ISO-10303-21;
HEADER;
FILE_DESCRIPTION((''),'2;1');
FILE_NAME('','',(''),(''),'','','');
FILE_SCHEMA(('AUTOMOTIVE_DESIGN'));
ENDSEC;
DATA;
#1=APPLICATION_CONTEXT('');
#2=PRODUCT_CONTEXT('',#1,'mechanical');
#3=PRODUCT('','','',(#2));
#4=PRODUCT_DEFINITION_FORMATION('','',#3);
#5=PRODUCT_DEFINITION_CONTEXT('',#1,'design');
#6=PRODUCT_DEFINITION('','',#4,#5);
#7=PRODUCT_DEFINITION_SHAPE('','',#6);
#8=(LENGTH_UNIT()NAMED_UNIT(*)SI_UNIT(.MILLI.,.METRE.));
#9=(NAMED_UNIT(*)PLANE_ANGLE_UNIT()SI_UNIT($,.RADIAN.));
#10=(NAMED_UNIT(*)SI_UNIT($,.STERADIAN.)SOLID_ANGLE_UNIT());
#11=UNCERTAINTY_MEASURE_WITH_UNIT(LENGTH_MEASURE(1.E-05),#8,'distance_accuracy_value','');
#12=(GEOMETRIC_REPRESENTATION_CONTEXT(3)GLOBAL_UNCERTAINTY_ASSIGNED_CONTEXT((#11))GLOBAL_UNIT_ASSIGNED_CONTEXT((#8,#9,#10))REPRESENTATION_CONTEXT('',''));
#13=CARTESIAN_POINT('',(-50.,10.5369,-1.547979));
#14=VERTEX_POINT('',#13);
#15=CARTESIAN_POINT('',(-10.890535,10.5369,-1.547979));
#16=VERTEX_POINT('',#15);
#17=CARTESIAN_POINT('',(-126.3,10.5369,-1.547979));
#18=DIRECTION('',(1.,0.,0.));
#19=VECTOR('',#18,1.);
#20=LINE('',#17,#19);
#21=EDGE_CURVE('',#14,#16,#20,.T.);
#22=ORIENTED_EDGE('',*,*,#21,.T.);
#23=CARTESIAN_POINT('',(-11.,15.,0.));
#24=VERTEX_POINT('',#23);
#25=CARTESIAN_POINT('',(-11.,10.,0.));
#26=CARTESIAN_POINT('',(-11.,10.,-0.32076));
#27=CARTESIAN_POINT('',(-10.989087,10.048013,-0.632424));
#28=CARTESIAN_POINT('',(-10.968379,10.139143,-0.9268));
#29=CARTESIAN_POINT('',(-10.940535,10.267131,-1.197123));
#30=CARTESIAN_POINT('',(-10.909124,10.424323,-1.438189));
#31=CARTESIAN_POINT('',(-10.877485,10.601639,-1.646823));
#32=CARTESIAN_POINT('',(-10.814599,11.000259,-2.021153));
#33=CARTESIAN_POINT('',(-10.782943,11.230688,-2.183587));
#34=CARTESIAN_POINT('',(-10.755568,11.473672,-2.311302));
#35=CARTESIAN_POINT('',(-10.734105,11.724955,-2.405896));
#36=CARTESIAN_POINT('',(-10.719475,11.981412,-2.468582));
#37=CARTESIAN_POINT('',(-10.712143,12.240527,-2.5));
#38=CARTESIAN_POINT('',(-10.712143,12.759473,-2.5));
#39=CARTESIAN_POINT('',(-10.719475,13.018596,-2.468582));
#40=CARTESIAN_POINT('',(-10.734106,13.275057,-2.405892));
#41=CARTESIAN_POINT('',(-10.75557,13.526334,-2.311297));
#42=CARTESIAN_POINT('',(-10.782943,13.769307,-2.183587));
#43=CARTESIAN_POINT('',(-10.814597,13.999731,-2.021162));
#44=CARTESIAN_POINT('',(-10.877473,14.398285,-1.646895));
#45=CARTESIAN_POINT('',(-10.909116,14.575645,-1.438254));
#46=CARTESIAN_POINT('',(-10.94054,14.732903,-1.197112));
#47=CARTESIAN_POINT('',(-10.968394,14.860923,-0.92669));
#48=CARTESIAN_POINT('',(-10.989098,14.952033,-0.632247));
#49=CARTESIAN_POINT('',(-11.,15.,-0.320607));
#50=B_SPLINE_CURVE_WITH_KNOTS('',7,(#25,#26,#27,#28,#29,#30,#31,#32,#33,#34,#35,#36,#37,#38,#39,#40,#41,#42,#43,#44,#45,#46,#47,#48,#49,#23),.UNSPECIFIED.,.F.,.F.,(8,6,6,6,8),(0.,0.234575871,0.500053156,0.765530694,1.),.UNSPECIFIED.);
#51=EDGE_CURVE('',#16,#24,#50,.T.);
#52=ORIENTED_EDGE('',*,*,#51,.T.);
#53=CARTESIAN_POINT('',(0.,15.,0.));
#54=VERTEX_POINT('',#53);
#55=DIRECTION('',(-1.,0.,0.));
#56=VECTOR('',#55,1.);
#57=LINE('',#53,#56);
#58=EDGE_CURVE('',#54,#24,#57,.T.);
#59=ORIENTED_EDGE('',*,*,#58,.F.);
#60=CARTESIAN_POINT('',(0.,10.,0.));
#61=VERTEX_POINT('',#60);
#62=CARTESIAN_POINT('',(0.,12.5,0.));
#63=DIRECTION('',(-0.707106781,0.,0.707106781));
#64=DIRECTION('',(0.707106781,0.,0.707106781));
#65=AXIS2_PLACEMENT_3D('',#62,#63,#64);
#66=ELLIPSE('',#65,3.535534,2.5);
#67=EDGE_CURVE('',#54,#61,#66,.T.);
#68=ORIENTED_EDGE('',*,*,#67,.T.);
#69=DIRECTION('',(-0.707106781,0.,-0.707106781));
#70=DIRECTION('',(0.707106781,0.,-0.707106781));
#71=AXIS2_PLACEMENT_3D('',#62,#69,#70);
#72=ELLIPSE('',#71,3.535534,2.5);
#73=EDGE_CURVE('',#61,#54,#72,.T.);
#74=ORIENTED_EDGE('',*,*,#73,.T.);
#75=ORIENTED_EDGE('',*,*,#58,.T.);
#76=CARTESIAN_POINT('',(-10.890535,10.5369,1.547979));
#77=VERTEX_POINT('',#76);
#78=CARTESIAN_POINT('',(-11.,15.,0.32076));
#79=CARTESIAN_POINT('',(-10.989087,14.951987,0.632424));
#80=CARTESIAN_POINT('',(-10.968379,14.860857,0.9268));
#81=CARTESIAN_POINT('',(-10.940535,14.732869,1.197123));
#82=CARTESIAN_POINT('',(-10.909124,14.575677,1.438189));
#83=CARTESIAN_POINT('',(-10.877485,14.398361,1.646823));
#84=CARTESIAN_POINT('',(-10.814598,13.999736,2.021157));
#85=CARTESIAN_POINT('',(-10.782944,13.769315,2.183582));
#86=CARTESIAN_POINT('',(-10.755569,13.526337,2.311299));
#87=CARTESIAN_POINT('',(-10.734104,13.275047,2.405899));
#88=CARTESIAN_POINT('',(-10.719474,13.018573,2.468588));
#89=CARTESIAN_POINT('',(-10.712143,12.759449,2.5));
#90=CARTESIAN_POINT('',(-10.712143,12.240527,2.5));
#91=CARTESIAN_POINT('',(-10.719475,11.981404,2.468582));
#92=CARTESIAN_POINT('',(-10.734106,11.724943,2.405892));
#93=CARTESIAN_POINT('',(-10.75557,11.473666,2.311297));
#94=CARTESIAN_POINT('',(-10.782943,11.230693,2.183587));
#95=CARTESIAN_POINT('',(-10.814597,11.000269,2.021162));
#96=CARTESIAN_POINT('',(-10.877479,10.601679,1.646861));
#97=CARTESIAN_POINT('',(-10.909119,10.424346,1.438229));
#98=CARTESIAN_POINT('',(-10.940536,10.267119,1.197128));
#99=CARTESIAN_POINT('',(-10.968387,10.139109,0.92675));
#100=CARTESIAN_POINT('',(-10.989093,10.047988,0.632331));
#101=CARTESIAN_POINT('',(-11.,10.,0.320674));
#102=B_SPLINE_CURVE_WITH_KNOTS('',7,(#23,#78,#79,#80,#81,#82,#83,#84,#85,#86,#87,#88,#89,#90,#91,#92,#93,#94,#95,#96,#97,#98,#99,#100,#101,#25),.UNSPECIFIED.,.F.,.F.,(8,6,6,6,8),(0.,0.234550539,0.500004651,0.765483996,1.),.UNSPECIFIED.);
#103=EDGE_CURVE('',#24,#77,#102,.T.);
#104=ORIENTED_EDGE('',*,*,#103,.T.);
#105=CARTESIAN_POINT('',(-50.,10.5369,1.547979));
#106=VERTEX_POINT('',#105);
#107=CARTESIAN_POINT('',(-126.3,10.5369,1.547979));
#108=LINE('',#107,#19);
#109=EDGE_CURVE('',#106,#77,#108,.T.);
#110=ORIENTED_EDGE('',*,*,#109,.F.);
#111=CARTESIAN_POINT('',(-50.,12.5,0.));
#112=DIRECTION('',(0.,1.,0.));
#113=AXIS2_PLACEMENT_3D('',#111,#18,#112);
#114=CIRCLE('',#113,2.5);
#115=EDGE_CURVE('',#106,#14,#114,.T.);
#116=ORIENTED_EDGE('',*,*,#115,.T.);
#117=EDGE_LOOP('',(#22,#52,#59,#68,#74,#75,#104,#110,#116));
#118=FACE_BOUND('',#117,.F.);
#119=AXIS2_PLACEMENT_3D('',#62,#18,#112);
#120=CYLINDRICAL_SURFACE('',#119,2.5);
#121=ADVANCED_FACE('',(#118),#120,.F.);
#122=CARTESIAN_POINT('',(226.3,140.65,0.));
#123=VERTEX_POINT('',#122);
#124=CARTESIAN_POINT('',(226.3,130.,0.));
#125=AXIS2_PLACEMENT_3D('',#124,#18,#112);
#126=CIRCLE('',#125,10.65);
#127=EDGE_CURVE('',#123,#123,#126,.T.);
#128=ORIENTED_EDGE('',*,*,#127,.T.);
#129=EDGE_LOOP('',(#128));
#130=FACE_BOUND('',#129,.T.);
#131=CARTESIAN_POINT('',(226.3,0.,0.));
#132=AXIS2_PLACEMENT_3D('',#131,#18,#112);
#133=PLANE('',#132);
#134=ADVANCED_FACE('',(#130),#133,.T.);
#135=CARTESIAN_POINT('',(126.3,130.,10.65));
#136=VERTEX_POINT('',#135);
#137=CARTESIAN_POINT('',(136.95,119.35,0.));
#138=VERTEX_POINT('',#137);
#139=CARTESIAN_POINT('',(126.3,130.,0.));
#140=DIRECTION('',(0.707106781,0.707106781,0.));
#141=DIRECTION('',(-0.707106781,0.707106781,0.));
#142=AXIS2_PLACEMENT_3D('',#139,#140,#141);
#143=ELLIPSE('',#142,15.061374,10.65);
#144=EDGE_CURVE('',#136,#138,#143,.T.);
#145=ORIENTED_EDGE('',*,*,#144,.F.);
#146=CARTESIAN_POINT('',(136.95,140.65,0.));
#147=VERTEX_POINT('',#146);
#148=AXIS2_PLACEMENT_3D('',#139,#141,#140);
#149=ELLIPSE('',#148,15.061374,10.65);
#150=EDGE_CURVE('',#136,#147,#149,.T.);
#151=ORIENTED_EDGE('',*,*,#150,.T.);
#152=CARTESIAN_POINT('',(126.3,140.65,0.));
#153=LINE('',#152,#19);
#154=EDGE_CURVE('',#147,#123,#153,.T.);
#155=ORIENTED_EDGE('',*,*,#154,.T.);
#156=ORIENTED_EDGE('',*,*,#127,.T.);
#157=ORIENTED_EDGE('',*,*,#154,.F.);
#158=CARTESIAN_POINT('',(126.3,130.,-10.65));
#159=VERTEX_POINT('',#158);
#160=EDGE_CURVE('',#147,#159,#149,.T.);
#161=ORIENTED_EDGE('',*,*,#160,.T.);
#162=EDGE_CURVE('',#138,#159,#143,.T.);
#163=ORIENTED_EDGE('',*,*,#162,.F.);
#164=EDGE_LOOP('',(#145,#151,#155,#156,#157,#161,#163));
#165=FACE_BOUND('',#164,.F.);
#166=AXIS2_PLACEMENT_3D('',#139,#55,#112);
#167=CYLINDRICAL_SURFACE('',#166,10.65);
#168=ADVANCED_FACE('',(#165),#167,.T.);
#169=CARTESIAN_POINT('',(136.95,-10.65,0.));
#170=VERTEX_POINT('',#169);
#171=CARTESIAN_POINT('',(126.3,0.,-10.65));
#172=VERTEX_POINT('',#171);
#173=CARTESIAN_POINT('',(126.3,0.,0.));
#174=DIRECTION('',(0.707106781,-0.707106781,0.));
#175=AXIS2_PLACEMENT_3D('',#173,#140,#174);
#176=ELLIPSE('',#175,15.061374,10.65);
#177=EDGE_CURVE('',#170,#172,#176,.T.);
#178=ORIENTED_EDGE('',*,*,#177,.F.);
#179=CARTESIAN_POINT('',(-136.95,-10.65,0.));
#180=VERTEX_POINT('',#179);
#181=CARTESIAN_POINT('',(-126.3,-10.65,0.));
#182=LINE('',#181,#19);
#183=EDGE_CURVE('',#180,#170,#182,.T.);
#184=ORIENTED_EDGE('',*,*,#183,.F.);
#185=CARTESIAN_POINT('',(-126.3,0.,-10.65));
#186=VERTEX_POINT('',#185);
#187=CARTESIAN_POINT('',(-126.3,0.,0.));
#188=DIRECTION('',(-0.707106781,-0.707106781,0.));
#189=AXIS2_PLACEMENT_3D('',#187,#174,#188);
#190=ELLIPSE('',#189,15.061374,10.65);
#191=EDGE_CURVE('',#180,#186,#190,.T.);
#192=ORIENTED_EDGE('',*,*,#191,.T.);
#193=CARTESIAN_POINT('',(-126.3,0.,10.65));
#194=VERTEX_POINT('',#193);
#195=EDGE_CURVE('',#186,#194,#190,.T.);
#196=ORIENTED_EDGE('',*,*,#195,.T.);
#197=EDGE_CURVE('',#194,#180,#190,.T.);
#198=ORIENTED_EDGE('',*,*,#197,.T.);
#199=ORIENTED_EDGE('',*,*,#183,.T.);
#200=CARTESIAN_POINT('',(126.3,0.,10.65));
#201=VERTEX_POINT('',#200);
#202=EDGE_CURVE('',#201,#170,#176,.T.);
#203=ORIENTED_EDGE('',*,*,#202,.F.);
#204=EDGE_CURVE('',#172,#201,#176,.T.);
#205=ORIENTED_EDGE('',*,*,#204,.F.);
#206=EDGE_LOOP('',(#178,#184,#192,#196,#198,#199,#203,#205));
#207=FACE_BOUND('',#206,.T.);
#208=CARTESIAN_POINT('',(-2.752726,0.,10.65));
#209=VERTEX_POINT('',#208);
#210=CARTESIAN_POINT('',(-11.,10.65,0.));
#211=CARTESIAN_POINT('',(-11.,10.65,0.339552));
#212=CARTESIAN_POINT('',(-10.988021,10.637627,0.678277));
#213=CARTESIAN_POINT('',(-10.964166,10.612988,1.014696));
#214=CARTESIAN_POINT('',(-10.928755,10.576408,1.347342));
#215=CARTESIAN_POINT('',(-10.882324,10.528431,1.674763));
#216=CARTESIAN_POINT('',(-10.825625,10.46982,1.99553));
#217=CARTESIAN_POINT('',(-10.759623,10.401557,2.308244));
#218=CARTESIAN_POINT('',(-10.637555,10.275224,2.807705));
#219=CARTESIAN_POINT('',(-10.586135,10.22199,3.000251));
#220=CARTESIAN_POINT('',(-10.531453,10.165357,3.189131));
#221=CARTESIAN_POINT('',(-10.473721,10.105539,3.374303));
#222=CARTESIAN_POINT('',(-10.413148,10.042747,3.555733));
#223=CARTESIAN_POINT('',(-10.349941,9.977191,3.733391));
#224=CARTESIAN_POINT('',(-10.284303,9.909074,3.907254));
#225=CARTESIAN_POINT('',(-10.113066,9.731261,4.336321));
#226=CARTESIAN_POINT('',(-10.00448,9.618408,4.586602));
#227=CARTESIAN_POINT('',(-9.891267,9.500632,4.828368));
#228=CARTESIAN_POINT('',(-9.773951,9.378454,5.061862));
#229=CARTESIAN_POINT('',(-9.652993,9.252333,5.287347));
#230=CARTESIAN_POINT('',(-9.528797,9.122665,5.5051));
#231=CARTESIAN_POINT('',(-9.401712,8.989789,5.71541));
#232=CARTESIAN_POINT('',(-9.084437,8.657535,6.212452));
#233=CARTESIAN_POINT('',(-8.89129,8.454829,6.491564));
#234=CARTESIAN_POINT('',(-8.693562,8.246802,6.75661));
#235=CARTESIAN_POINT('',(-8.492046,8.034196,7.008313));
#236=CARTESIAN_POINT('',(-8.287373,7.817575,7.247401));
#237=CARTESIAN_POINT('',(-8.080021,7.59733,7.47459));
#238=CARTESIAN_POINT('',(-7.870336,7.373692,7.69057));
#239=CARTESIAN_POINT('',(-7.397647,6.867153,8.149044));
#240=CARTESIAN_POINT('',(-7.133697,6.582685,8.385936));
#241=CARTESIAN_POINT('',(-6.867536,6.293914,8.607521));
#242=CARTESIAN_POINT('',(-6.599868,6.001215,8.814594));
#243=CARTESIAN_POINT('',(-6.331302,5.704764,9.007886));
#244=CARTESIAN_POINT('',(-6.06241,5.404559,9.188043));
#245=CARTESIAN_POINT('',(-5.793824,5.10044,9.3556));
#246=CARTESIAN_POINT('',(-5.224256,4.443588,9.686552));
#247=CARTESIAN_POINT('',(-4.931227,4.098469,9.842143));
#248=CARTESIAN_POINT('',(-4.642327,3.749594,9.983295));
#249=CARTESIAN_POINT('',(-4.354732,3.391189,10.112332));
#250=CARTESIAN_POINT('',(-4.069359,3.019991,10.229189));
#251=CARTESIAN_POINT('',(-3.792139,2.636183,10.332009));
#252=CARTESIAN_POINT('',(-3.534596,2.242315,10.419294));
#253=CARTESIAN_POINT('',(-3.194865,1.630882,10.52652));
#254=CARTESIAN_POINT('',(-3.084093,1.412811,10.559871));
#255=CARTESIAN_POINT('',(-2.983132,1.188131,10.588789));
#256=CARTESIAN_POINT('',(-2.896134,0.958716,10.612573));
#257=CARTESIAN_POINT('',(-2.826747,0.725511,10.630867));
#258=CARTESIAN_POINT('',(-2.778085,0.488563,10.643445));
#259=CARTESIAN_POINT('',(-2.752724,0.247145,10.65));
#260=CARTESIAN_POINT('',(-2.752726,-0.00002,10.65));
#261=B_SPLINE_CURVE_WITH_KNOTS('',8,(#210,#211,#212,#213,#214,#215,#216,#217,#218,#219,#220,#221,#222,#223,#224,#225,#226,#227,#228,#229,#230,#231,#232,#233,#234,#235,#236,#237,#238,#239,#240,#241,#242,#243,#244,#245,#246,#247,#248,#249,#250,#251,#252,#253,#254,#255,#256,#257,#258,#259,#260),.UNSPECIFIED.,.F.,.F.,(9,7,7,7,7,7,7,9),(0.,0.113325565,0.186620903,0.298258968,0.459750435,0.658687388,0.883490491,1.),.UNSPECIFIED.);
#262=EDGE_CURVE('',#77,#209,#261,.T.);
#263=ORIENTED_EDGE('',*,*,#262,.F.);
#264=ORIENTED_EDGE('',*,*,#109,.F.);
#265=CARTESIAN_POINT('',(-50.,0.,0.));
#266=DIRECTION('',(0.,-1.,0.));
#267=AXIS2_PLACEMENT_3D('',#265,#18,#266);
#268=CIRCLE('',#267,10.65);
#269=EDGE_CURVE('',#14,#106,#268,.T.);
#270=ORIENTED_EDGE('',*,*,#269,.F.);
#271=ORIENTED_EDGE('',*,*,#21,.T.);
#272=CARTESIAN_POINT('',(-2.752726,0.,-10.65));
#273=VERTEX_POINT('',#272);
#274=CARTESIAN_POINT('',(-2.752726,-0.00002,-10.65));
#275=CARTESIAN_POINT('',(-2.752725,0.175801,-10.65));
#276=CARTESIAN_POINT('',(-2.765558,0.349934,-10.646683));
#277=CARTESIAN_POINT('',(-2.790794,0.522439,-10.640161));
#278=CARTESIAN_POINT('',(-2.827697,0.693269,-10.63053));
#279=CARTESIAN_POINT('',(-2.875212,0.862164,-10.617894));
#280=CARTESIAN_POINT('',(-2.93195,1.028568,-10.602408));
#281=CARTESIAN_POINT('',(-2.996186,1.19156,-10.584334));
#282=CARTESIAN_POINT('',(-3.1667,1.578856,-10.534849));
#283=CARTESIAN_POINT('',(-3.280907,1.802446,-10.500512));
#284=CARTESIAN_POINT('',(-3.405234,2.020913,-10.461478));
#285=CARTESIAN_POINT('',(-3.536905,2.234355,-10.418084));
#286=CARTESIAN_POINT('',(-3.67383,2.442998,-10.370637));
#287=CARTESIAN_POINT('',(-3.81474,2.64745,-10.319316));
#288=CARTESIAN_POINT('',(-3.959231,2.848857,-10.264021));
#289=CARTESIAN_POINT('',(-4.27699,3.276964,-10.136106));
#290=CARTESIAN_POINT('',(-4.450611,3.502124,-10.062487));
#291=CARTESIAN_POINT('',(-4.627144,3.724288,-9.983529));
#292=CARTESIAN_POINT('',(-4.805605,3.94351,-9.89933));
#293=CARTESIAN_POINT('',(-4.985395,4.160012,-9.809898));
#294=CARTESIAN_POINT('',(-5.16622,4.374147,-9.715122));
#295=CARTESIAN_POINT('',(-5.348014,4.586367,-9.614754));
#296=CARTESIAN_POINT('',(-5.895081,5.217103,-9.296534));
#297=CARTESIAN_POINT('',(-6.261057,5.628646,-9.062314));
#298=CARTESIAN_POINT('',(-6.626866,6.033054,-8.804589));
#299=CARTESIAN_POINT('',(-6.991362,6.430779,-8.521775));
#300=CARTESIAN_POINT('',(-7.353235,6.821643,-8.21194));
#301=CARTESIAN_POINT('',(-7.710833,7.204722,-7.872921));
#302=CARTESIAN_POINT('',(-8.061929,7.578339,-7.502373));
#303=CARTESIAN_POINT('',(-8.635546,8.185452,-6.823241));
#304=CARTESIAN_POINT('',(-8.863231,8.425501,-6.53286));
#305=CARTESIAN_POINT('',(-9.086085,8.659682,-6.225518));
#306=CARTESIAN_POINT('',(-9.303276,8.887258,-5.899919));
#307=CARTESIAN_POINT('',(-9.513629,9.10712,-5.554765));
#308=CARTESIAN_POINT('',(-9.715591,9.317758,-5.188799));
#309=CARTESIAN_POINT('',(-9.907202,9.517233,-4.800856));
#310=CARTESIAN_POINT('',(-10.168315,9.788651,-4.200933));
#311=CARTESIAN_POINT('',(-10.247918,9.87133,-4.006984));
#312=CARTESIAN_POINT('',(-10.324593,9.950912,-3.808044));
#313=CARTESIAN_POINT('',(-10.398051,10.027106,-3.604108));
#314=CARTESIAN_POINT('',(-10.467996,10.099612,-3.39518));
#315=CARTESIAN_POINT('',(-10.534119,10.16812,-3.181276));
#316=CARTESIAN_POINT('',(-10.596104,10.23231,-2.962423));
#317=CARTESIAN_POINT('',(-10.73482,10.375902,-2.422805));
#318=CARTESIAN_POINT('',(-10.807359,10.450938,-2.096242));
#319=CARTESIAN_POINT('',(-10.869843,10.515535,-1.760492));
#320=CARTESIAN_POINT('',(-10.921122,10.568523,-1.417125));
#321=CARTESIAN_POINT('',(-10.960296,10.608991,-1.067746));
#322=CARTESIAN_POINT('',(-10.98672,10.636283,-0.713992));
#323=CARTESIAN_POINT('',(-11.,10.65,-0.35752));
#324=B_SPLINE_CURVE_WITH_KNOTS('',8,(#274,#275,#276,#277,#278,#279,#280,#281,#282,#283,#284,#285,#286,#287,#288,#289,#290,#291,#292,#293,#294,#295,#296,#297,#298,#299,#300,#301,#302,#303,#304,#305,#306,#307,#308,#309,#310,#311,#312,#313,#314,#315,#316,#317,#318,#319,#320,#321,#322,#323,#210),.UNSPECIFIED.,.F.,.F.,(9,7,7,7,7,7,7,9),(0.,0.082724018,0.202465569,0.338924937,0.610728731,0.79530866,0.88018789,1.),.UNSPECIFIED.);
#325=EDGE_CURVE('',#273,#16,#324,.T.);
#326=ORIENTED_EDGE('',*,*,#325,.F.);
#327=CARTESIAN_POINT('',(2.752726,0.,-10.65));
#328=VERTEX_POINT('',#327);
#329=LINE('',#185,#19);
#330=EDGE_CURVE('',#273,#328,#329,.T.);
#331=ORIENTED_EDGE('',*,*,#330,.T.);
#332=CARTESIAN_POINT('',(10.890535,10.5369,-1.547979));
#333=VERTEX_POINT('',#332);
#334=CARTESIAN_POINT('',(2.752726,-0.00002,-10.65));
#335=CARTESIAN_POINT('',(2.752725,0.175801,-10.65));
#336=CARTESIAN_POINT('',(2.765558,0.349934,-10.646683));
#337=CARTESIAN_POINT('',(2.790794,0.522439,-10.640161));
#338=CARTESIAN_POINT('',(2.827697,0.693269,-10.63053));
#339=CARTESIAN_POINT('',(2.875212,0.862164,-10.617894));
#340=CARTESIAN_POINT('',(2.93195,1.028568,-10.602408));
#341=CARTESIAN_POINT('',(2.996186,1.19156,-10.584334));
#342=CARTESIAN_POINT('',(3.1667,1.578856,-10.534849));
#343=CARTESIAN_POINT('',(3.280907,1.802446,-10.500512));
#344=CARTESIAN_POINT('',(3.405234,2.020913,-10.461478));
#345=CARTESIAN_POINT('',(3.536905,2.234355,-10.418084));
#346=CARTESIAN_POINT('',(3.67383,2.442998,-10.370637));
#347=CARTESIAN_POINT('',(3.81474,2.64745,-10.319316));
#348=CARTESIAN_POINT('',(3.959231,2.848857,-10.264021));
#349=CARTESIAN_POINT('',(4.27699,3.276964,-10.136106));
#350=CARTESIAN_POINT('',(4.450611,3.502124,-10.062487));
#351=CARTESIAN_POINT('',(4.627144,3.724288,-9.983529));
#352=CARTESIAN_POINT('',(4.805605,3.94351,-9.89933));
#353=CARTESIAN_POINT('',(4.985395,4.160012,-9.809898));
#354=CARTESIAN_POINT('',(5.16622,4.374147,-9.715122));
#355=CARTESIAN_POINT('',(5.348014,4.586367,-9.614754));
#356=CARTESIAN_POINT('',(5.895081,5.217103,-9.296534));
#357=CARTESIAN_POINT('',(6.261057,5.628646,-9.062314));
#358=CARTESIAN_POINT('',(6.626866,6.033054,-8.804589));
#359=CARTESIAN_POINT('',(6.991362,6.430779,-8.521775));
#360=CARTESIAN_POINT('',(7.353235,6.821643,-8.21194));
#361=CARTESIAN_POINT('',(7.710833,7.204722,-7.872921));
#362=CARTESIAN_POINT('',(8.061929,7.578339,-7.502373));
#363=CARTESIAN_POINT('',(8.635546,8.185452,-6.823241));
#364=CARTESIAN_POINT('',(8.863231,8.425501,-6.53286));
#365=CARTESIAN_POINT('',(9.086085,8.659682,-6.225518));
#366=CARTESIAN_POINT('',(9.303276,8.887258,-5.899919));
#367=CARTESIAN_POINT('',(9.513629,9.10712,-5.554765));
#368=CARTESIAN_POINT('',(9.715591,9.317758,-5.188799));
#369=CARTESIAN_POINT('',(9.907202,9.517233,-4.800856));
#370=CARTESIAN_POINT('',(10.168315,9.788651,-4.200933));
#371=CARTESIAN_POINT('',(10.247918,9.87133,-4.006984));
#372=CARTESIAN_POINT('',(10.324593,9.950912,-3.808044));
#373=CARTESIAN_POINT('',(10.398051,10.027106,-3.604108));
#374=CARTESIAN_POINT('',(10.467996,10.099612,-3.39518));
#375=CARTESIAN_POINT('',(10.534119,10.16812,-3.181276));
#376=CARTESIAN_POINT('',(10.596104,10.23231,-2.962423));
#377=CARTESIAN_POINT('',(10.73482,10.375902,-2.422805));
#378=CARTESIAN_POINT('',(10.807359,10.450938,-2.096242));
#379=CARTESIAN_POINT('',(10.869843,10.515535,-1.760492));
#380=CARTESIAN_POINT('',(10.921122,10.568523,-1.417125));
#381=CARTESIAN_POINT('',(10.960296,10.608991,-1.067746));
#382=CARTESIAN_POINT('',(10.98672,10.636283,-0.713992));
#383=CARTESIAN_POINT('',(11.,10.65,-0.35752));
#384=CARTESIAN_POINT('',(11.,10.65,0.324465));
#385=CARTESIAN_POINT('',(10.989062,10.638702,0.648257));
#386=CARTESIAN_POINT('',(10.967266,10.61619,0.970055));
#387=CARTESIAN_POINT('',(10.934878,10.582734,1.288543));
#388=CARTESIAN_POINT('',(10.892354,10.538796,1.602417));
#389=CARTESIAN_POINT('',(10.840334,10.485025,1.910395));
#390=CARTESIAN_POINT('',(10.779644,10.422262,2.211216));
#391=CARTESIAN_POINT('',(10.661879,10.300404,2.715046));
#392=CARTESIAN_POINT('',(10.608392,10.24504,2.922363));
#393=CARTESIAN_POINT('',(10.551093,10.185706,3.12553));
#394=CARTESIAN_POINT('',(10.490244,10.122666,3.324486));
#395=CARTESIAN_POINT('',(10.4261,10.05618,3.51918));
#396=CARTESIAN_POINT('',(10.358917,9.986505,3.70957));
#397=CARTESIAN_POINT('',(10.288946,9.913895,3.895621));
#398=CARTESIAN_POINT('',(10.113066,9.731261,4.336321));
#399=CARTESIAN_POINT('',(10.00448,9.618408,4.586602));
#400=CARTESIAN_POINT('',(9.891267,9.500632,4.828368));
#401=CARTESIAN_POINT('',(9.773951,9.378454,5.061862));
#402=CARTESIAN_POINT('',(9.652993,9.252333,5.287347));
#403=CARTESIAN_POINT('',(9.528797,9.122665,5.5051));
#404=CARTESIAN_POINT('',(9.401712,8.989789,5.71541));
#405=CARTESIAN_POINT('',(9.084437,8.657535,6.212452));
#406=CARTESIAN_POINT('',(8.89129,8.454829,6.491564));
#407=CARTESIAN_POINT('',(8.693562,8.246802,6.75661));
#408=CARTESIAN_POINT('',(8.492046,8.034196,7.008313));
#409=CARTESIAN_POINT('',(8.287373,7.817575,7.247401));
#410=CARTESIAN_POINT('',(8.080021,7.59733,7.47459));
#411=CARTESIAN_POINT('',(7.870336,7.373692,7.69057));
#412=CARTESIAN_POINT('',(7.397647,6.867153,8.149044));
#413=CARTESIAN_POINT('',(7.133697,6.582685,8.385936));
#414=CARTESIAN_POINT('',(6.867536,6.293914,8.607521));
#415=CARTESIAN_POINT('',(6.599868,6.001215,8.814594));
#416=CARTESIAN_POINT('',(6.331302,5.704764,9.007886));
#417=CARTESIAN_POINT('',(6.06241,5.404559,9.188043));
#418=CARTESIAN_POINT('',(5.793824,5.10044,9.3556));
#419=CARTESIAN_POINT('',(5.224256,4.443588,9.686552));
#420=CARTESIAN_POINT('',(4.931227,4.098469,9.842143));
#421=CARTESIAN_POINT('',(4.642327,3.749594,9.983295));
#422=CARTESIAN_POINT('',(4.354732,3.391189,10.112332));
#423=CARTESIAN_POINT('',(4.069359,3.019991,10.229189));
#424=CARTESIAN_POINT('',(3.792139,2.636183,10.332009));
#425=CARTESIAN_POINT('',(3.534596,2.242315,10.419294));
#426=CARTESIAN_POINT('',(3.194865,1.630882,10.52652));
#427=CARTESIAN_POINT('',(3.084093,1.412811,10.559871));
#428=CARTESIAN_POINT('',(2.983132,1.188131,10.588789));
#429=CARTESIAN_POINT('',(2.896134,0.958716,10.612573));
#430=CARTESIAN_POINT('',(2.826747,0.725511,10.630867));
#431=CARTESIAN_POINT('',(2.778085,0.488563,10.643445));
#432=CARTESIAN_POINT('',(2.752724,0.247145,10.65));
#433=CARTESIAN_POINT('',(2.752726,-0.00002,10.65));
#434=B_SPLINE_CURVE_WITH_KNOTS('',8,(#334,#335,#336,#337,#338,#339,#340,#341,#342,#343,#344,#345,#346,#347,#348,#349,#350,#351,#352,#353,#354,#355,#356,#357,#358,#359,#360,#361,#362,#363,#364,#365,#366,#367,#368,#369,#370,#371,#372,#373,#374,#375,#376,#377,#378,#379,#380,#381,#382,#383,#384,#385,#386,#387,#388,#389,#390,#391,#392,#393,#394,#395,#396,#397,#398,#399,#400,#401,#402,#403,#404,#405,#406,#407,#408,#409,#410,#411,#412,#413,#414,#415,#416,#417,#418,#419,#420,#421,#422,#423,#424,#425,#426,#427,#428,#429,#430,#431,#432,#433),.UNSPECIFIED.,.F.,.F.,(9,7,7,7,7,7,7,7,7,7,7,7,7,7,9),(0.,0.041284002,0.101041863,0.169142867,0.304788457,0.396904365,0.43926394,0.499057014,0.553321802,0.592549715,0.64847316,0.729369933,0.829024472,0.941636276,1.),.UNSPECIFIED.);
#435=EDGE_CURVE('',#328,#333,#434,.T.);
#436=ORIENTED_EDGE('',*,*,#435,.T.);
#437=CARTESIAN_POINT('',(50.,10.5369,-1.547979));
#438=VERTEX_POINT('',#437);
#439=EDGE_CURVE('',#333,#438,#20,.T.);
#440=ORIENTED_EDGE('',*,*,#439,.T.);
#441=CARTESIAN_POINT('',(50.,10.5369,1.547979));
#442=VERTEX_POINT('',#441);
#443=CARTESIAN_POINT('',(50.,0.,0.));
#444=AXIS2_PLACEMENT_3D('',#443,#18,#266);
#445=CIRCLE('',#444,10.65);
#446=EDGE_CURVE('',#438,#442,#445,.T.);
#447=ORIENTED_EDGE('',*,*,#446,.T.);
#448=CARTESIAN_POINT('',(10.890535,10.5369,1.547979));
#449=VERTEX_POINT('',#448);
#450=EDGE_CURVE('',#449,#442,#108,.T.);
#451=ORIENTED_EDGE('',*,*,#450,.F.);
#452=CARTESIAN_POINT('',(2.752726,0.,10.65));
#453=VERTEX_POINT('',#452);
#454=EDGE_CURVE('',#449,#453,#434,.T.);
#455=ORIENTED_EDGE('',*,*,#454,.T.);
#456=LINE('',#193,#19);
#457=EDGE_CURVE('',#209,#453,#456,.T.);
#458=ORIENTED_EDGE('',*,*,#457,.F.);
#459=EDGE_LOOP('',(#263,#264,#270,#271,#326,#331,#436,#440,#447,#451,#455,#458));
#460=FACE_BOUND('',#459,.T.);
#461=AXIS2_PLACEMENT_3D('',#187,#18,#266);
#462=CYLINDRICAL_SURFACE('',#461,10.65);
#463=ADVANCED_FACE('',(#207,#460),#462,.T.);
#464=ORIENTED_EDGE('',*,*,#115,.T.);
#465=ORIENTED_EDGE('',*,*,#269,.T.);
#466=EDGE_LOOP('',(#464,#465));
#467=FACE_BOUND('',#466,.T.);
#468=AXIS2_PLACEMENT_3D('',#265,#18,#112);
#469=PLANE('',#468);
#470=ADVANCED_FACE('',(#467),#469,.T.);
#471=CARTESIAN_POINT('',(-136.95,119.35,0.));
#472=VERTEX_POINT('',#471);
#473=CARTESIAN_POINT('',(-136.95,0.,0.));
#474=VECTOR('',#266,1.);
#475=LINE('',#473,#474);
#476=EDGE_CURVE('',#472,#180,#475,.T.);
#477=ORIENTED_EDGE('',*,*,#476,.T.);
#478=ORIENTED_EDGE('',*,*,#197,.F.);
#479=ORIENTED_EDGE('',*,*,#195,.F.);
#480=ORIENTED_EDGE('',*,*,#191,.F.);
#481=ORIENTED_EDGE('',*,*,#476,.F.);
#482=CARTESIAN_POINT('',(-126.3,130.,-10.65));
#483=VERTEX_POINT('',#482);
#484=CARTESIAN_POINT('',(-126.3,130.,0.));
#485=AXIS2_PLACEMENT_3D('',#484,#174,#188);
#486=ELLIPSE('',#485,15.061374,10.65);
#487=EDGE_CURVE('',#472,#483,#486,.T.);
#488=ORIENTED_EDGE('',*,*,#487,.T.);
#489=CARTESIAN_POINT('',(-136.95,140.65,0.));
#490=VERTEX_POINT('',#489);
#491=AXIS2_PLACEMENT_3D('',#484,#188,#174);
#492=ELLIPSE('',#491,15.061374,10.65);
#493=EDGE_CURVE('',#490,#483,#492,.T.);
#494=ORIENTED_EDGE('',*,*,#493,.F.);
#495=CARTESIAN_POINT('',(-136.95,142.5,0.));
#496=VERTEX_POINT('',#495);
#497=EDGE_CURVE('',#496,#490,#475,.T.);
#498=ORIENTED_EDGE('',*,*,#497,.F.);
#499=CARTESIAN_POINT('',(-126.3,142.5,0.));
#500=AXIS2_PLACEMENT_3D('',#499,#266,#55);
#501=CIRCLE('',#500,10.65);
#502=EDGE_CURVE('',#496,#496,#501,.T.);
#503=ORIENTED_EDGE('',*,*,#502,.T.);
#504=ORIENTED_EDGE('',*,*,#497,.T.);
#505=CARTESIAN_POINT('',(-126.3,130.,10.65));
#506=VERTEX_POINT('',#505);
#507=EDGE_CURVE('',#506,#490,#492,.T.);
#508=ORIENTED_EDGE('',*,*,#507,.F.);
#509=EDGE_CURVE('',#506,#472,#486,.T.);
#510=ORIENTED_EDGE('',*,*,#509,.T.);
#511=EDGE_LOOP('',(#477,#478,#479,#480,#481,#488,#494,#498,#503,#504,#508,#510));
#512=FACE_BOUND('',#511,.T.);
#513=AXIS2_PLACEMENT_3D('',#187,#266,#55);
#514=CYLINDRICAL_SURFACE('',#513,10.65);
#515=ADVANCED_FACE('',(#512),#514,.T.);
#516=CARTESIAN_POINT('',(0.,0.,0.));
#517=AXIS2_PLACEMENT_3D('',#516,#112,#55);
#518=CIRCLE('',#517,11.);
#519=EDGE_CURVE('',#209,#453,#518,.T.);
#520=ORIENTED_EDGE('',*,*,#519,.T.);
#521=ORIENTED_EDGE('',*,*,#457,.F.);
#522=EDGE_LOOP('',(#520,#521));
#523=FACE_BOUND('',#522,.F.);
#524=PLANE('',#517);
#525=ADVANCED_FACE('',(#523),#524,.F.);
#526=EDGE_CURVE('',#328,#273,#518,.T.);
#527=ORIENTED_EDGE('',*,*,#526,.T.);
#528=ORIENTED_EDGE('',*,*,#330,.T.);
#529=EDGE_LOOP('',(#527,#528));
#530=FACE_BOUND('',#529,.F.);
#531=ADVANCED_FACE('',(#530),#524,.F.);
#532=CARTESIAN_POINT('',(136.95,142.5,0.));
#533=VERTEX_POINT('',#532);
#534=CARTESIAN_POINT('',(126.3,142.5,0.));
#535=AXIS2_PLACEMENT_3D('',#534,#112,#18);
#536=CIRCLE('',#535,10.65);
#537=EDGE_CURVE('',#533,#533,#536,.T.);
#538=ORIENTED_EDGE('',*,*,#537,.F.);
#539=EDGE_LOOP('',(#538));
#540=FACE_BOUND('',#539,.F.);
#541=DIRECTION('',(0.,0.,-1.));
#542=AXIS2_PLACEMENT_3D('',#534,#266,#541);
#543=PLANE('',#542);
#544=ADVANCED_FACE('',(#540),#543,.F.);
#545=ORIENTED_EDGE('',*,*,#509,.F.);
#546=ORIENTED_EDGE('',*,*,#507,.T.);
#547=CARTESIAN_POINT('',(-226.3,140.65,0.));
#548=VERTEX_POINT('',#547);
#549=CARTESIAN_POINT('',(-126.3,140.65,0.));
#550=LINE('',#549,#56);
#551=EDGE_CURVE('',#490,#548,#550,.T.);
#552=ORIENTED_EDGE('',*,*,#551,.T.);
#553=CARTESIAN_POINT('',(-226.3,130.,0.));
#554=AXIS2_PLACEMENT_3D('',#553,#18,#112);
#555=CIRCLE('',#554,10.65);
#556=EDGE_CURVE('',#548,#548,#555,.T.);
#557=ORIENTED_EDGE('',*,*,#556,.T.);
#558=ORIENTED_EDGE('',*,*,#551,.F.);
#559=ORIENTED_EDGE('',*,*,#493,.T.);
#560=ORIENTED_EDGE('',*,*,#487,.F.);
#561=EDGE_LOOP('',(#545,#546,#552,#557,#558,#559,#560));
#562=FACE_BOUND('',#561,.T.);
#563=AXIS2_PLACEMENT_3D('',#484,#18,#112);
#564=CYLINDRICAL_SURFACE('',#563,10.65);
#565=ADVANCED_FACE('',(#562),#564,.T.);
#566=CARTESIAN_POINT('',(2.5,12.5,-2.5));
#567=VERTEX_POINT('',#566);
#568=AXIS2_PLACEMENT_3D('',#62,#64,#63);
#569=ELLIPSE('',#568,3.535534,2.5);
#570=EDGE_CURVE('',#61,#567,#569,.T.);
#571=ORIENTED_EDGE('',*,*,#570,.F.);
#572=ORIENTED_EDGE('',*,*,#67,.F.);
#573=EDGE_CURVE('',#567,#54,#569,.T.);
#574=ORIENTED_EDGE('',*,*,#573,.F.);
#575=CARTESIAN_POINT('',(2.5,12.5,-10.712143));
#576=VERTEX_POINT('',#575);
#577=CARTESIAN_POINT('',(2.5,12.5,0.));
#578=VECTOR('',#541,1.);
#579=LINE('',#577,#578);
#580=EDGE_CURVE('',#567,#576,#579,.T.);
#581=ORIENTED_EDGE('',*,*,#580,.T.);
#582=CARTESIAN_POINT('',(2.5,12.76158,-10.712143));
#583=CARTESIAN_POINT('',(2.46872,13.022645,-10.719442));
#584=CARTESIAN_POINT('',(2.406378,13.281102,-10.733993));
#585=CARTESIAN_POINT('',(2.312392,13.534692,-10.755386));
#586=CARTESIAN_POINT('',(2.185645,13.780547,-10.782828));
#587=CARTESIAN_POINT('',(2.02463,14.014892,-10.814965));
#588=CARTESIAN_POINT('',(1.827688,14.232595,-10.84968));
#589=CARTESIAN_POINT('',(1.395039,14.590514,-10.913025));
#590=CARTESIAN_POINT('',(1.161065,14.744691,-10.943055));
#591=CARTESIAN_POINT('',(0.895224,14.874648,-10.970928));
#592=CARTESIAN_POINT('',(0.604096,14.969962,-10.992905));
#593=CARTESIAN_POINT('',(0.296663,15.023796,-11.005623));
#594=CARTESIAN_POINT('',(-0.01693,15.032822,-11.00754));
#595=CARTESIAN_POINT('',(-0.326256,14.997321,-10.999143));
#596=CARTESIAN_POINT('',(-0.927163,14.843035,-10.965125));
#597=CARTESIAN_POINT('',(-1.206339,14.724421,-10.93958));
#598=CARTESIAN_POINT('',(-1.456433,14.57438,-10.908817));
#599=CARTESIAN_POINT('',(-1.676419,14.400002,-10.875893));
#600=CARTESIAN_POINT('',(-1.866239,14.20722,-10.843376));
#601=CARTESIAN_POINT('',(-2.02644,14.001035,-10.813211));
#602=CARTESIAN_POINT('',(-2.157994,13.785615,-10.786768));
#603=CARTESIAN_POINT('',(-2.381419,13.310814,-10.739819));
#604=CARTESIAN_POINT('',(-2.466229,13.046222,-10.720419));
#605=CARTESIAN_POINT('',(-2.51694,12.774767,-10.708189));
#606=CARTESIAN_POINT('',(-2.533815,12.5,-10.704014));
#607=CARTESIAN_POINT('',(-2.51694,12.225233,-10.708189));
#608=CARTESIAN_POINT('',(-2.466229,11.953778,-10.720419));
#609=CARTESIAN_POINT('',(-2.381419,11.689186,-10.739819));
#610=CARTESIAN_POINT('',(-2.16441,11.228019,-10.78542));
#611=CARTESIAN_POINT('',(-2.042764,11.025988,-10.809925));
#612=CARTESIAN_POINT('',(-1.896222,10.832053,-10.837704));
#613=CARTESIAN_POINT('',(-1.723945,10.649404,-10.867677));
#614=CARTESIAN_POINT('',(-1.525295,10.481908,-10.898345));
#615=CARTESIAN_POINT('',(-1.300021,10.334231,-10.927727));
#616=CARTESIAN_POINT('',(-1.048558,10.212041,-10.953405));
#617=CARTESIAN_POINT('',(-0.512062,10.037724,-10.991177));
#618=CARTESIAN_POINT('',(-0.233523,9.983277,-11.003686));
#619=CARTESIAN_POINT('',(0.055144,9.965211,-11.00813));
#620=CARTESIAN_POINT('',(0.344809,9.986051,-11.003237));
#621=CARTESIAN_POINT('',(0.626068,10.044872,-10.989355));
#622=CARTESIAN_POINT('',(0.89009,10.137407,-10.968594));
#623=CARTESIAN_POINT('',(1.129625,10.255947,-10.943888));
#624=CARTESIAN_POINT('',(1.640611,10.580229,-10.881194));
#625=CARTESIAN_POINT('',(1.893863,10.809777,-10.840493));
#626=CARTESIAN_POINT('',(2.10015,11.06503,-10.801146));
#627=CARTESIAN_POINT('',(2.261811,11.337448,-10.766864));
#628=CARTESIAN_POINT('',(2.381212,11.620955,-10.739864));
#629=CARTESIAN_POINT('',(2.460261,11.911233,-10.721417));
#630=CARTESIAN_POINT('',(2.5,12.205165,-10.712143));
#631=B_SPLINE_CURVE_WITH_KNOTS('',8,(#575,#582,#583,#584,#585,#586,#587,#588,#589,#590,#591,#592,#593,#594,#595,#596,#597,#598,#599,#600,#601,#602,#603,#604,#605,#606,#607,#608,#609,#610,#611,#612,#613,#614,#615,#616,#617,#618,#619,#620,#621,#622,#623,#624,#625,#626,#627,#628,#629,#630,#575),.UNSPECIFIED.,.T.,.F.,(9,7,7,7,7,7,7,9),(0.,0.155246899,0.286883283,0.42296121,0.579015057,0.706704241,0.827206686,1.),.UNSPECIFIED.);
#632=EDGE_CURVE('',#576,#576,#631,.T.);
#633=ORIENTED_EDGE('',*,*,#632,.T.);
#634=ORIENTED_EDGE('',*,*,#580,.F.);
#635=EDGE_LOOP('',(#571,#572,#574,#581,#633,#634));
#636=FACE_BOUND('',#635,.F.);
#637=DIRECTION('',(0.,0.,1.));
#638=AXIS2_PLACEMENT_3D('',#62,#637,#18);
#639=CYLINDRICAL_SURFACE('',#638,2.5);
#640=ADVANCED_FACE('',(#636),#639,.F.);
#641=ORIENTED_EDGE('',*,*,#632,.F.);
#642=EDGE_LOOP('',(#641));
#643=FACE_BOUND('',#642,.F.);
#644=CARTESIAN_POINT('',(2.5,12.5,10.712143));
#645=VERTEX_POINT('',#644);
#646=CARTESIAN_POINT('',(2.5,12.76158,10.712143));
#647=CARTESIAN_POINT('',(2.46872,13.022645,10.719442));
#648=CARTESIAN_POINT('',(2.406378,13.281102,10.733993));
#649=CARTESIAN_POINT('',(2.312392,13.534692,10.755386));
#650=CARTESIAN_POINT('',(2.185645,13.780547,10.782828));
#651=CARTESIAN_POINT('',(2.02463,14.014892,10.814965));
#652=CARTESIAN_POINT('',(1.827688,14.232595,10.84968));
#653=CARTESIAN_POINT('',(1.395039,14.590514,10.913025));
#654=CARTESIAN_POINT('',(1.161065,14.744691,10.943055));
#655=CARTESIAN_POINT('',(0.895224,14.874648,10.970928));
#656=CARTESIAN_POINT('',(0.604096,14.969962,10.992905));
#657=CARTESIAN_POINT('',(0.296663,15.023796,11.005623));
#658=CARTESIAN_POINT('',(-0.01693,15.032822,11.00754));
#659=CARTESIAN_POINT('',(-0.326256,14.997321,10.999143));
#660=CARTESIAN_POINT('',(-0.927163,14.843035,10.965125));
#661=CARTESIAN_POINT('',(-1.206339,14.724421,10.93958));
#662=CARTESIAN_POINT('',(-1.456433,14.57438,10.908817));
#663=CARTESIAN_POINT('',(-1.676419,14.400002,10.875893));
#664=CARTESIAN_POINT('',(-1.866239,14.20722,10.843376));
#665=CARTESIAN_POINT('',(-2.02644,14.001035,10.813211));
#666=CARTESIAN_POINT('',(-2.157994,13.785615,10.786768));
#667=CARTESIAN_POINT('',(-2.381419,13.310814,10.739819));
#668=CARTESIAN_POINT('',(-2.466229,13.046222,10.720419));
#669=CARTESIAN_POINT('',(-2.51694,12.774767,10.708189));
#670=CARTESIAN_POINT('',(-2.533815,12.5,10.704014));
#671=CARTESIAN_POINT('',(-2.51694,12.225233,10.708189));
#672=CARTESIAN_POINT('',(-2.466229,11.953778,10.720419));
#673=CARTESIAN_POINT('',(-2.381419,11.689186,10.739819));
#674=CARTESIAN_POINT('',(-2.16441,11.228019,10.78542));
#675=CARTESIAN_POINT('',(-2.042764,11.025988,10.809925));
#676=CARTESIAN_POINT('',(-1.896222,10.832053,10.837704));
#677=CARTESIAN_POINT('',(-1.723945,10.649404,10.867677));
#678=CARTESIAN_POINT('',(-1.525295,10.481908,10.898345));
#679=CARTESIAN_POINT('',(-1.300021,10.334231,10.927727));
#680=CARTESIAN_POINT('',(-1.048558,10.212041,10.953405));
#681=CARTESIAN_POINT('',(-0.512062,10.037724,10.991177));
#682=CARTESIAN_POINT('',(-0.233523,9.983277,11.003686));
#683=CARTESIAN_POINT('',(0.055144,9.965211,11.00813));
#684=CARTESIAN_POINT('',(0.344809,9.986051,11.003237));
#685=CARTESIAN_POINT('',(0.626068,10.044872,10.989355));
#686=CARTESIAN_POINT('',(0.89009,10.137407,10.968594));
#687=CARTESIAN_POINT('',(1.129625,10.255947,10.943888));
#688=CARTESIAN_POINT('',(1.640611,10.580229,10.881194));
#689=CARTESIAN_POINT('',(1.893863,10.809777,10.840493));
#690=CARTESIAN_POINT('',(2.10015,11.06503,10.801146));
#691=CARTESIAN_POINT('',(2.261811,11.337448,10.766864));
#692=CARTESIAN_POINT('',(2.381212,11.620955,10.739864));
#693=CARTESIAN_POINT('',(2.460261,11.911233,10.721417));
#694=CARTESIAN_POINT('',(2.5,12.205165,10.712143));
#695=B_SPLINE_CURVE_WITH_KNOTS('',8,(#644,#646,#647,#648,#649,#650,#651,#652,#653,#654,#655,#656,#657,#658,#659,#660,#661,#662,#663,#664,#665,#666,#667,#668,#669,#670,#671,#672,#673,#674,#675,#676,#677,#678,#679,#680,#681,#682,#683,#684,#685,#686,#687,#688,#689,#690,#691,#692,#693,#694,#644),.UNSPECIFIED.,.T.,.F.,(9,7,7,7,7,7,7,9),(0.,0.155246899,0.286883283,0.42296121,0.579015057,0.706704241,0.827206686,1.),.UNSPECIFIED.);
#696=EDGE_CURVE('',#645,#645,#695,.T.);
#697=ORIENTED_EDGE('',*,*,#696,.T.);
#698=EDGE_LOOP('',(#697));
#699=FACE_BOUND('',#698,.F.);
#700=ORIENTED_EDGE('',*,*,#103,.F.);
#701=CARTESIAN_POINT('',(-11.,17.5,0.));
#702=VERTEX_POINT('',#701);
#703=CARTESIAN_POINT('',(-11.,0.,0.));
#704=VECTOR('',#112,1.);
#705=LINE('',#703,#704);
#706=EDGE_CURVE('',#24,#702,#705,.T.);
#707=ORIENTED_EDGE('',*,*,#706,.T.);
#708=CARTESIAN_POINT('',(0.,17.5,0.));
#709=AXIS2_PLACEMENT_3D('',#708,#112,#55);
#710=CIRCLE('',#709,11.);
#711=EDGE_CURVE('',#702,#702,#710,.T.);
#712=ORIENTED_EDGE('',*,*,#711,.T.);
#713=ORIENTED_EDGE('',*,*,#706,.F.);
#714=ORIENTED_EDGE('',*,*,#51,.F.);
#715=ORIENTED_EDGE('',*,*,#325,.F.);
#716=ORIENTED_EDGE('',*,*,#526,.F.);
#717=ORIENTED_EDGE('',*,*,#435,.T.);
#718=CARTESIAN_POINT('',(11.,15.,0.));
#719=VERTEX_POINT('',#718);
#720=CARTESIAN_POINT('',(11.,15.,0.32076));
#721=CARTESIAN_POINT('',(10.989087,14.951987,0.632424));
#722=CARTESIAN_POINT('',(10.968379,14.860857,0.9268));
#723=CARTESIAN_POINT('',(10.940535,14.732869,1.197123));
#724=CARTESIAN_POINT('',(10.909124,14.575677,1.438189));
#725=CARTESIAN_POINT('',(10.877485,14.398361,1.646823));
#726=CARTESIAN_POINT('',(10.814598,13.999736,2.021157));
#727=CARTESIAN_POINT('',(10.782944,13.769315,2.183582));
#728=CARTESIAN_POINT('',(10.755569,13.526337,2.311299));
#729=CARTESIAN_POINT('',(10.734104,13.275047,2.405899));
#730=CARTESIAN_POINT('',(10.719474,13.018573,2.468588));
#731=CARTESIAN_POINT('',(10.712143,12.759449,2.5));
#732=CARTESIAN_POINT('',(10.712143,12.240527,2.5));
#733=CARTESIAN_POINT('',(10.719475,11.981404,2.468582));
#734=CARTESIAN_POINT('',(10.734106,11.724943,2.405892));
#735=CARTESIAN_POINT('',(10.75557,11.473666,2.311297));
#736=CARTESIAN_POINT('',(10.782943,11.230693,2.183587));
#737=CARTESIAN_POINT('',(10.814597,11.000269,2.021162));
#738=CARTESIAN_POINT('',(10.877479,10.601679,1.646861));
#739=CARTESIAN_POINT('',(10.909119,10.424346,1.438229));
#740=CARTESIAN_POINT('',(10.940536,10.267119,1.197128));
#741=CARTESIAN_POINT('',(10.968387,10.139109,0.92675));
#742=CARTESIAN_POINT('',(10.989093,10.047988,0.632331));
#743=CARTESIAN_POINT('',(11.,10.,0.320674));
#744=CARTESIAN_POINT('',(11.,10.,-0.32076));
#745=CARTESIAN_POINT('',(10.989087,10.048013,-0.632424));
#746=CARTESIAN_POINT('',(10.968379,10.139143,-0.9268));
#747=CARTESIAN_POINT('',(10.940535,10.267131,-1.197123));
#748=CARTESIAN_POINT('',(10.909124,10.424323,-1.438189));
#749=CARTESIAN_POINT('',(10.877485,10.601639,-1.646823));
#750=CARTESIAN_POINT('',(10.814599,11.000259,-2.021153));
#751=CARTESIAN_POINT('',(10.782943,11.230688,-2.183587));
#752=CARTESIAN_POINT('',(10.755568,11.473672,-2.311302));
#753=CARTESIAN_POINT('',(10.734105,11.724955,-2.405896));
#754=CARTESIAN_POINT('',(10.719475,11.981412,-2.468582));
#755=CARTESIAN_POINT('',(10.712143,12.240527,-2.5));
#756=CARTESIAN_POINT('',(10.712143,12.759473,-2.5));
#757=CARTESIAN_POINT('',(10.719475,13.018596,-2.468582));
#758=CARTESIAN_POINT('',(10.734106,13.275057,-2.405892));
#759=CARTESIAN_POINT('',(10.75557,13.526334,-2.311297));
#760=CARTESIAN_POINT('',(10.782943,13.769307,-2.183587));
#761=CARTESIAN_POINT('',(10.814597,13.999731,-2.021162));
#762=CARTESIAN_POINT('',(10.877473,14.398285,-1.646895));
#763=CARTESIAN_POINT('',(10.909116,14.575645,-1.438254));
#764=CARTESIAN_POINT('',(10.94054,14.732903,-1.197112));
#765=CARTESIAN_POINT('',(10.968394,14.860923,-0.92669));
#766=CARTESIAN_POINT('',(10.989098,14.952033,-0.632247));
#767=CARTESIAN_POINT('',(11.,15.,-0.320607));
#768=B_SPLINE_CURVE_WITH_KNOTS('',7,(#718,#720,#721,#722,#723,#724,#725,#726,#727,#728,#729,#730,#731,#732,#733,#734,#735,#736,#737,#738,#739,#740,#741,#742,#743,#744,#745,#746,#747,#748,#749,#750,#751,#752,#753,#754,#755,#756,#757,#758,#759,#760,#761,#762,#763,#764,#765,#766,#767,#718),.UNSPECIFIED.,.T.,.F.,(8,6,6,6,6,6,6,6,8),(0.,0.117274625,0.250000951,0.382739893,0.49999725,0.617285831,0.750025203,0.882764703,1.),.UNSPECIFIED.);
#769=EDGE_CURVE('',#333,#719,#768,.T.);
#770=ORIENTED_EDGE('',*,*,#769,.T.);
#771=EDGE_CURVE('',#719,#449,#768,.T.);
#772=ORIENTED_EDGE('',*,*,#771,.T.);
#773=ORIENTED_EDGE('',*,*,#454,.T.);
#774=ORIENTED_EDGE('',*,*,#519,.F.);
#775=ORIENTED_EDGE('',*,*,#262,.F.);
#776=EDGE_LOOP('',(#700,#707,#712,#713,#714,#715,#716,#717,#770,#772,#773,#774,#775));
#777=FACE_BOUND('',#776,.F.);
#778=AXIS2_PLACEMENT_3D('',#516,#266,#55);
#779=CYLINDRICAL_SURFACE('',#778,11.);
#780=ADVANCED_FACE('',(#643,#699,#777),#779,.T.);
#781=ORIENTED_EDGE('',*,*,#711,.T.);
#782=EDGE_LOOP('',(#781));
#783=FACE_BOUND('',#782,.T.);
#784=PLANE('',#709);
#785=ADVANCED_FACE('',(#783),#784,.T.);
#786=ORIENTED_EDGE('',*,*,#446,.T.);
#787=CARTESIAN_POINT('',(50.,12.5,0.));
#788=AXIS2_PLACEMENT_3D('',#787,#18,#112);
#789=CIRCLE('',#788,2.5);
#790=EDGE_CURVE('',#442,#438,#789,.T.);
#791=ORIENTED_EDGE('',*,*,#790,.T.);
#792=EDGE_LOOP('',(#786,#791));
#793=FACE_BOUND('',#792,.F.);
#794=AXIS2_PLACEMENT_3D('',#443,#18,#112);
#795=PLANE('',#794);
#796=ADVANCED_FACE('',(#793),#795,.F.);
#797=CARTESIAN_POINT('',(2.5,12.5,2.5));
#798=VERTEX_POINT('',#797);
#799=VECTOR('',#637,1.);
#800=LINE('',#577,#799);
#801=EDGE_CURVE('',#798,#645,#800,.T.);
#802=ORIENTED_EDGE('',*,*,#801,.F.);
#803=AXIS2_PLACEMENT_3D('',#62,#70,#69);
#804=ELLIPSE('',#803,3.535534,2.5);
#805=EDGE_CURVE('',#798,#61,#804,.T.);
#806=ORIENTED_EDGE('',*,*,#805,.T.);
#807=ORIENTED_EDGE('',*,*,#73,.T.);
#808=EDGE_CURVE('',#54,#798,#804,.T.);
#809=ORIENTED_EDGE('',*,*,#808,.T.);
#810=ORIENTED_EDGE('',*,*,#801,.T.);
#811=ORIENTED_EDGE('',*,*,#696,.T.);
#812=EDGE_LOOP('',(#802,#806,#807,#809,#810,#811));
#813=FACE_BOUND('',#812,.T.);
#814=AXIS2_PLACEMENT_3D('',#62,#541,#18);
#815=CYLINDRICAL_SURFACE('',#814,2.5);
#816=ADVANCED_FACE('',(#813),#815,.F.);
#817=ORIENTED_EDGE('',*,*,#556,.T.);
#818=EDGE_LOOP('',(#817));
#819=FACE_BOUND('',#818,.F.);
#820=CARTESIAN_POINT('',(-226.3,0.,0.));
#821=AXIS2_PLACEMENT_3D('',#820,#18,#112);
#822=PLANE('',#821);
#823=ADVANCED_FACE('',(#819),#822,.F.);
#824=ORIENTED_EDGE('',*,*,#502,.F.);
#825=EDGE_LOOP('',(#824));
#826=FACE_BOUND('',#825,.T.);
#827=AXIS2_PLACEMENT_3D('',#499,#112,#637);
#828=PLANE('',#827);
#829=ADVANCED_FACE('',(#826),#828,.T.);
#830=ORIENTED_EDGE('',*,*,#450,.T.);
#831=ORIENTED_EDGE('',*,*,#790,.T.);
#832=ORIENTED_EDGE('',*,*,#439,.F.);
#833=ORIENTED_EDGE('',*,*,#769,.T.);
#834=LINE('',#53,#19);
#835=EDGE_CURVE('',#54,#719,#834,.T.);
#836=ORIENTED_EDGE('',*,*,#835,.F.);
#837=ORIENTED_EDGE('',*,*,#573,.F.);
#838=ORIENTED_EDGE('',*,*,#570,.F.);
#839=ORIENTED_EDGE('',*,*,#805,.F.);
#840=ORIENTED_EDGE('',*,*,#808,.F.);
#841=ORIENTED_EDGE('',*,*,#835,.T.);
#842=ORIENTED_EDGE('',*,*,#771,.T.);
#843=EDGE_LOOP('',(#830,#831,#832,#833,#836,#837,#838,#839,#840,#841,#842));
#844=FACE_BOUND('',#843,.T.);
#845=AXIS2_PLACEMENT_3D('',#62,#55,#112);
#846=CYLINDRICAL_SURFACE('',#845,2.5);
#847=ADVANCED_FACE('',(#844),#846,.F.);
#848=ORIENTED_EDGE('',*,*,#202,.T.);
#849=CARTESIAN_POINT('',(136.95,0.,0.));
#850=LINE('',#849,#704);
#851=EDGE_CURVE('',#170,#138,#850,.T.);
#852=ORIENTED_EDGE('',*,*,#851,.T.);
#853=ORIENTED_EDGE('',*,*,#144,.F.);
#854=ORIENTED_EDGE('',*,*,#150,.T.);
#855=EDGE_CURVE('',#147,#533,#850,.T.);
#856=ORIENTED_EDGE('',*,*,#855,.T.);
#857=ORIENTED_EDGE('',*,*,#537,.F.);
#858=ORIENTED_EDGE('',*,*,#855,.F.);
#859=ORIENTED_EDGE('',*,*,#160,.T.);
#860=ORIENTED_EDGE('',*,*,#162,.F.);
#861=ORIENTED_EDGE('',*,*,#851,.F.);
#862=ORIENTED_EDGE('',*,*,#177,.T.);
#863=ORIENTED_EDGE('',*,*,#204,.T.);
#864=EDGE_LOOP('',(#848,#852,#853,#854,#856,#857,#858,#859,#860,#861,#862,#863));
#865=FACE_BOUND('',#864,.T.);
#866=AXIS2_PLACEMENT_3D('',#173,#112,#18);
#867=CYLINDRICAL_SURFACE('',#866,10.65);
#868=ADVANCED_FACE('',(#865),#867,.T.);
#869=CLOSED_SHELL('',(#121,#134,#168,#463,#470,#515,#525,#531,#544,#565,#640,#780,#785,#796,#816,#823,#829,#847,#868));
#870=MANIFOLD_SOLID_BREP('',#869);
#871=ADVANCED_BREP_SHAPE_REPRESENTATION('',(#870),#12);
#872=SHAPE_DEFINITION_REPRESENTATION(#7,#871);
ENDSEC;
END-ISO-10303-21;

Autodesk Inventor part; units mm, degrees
sketch "Sketch1" plane through (0, 0, 0) normal (0, 0, 1) x (1, 0, 0)
  line L0 (-126.3, 0) -> (126.3, 0)
  line L1 (126.3, 0) -> (126.3, 142.5)
  line L2 (126.3, 0) -> (268.8, 0) construction
  line L3 (-126.3, 0) -> (-126.3, 142.5)
  point P0 (0, 0)
  dimension "d0" = 252.6
  dimension "d1" = 142.5
  dimension "d2" = 90
  dimension "d3" = 142.5
ref_plane "Work Plane1" through (-126.3, 142.5, 0) normal (0, 1, 0) x (-1, 0, 0)
sketch "Sketch2" plane through (-126.3, 142.5, 0) normal (0, 1, 0) x (-1, 0, 0)
  circle A0 centre (0, 0) radius 10.65
  point P0 (-126.3, 0)
  dimension "d4" = 21.3
sweep "Sweep1" add profiles "Sketch2" path "Sketch1"
ref_plane "Work Plane2" through (0, 0, 0) normal (0, 1, 0) x (-1, 0, 0)
sketch "Sketch3" plane through (0, 0, 0) normal (0, 1, 0) x (-1, 0, 0)
  circle A0 centre (0, 0) radius 11
  dimension "d8" = 22
extrude "Extrusion1" add sketch "Sketch3" along normal blind 17.5
ref_plane "Work Plane3" through (0, 0, 0) normal (0, 0, 1) x (1, 0, 0)
sketch "Sketch4" plane through (0, 0, 0) normal (0, 0, 1) x (1, 0, 0)
  circle A0 centre (0, 12.5) radius 2.5
  point P0 (0, 0)
  dimension "d12" = 5
extrude "Extrusion2" cut sketch "Sketch4" along normal mid plane 100
ref_plane "Work Plane4" through (0, 0, 0) normal (1, 0, 0) x (0, 1, 0)
sketch "Sketch5" plane through (0, 0, 0) normal (1, 0, 0) x (0, 1, 0)
  circle A0 centre (12.5, 0) radius 2.5
  point P0 (0, 0)
  dimension "d16" = 5
extrude "Extrusion3" cut sketch "Sketch5" along normal mid plane 100
sketch "Sketch6" plane through (-126.3, 142.5, 0) normal (0, 1, 0) x (1, 0, 0)
  circle A0 centre (0, 0) radius 10.65 projected
  point P0 (126.3, 0)
sketch "Sketch7" plane through (126.3, 142.5, 0) normal (0, 1, 0) x (1, 0, 0)
  circle A0 centre (0, 0) radius 10.65 projected
  point P0 (-126.3, 0)
ref_plane "Work Plane6" through (126.3, 0, 0) normal (1, 0, 0) x (0, 1, 0)
ref_plane "Work Plane7" through (-126.3, 0, 0) normal (1, 0, 0) x (0, 1, 0)
sketch "Sketch8" plane through (-126.3, 0, 0) normal (1, 0, 0) x (0, 1, 0)
  line L0 (142.5, -10.65) -> (142.5, 10.65) projected
  circle A0 centre (130, 0) radius 10.65
  point P0 (0, 0)
  point P1 (142.5, 0)
  dimension "d21" = 21.3
extrude "Extrusion4" add sketch "Sketch8" against normal blind 100
sketch "Sketch9" plane through (126.3, 0, 0) normal (1, 0, 0) x (0, 1, 0)
  circle A0 centre (130, 0) radius 10.65 projected
  circle A1 centre (130, 0) radius 10.65
  point P0 (0, 0)
extrude "Extrusion5" add sketch "Sketch9" along normal blind 100
properties part number "hands" material "PVC-Piping"
